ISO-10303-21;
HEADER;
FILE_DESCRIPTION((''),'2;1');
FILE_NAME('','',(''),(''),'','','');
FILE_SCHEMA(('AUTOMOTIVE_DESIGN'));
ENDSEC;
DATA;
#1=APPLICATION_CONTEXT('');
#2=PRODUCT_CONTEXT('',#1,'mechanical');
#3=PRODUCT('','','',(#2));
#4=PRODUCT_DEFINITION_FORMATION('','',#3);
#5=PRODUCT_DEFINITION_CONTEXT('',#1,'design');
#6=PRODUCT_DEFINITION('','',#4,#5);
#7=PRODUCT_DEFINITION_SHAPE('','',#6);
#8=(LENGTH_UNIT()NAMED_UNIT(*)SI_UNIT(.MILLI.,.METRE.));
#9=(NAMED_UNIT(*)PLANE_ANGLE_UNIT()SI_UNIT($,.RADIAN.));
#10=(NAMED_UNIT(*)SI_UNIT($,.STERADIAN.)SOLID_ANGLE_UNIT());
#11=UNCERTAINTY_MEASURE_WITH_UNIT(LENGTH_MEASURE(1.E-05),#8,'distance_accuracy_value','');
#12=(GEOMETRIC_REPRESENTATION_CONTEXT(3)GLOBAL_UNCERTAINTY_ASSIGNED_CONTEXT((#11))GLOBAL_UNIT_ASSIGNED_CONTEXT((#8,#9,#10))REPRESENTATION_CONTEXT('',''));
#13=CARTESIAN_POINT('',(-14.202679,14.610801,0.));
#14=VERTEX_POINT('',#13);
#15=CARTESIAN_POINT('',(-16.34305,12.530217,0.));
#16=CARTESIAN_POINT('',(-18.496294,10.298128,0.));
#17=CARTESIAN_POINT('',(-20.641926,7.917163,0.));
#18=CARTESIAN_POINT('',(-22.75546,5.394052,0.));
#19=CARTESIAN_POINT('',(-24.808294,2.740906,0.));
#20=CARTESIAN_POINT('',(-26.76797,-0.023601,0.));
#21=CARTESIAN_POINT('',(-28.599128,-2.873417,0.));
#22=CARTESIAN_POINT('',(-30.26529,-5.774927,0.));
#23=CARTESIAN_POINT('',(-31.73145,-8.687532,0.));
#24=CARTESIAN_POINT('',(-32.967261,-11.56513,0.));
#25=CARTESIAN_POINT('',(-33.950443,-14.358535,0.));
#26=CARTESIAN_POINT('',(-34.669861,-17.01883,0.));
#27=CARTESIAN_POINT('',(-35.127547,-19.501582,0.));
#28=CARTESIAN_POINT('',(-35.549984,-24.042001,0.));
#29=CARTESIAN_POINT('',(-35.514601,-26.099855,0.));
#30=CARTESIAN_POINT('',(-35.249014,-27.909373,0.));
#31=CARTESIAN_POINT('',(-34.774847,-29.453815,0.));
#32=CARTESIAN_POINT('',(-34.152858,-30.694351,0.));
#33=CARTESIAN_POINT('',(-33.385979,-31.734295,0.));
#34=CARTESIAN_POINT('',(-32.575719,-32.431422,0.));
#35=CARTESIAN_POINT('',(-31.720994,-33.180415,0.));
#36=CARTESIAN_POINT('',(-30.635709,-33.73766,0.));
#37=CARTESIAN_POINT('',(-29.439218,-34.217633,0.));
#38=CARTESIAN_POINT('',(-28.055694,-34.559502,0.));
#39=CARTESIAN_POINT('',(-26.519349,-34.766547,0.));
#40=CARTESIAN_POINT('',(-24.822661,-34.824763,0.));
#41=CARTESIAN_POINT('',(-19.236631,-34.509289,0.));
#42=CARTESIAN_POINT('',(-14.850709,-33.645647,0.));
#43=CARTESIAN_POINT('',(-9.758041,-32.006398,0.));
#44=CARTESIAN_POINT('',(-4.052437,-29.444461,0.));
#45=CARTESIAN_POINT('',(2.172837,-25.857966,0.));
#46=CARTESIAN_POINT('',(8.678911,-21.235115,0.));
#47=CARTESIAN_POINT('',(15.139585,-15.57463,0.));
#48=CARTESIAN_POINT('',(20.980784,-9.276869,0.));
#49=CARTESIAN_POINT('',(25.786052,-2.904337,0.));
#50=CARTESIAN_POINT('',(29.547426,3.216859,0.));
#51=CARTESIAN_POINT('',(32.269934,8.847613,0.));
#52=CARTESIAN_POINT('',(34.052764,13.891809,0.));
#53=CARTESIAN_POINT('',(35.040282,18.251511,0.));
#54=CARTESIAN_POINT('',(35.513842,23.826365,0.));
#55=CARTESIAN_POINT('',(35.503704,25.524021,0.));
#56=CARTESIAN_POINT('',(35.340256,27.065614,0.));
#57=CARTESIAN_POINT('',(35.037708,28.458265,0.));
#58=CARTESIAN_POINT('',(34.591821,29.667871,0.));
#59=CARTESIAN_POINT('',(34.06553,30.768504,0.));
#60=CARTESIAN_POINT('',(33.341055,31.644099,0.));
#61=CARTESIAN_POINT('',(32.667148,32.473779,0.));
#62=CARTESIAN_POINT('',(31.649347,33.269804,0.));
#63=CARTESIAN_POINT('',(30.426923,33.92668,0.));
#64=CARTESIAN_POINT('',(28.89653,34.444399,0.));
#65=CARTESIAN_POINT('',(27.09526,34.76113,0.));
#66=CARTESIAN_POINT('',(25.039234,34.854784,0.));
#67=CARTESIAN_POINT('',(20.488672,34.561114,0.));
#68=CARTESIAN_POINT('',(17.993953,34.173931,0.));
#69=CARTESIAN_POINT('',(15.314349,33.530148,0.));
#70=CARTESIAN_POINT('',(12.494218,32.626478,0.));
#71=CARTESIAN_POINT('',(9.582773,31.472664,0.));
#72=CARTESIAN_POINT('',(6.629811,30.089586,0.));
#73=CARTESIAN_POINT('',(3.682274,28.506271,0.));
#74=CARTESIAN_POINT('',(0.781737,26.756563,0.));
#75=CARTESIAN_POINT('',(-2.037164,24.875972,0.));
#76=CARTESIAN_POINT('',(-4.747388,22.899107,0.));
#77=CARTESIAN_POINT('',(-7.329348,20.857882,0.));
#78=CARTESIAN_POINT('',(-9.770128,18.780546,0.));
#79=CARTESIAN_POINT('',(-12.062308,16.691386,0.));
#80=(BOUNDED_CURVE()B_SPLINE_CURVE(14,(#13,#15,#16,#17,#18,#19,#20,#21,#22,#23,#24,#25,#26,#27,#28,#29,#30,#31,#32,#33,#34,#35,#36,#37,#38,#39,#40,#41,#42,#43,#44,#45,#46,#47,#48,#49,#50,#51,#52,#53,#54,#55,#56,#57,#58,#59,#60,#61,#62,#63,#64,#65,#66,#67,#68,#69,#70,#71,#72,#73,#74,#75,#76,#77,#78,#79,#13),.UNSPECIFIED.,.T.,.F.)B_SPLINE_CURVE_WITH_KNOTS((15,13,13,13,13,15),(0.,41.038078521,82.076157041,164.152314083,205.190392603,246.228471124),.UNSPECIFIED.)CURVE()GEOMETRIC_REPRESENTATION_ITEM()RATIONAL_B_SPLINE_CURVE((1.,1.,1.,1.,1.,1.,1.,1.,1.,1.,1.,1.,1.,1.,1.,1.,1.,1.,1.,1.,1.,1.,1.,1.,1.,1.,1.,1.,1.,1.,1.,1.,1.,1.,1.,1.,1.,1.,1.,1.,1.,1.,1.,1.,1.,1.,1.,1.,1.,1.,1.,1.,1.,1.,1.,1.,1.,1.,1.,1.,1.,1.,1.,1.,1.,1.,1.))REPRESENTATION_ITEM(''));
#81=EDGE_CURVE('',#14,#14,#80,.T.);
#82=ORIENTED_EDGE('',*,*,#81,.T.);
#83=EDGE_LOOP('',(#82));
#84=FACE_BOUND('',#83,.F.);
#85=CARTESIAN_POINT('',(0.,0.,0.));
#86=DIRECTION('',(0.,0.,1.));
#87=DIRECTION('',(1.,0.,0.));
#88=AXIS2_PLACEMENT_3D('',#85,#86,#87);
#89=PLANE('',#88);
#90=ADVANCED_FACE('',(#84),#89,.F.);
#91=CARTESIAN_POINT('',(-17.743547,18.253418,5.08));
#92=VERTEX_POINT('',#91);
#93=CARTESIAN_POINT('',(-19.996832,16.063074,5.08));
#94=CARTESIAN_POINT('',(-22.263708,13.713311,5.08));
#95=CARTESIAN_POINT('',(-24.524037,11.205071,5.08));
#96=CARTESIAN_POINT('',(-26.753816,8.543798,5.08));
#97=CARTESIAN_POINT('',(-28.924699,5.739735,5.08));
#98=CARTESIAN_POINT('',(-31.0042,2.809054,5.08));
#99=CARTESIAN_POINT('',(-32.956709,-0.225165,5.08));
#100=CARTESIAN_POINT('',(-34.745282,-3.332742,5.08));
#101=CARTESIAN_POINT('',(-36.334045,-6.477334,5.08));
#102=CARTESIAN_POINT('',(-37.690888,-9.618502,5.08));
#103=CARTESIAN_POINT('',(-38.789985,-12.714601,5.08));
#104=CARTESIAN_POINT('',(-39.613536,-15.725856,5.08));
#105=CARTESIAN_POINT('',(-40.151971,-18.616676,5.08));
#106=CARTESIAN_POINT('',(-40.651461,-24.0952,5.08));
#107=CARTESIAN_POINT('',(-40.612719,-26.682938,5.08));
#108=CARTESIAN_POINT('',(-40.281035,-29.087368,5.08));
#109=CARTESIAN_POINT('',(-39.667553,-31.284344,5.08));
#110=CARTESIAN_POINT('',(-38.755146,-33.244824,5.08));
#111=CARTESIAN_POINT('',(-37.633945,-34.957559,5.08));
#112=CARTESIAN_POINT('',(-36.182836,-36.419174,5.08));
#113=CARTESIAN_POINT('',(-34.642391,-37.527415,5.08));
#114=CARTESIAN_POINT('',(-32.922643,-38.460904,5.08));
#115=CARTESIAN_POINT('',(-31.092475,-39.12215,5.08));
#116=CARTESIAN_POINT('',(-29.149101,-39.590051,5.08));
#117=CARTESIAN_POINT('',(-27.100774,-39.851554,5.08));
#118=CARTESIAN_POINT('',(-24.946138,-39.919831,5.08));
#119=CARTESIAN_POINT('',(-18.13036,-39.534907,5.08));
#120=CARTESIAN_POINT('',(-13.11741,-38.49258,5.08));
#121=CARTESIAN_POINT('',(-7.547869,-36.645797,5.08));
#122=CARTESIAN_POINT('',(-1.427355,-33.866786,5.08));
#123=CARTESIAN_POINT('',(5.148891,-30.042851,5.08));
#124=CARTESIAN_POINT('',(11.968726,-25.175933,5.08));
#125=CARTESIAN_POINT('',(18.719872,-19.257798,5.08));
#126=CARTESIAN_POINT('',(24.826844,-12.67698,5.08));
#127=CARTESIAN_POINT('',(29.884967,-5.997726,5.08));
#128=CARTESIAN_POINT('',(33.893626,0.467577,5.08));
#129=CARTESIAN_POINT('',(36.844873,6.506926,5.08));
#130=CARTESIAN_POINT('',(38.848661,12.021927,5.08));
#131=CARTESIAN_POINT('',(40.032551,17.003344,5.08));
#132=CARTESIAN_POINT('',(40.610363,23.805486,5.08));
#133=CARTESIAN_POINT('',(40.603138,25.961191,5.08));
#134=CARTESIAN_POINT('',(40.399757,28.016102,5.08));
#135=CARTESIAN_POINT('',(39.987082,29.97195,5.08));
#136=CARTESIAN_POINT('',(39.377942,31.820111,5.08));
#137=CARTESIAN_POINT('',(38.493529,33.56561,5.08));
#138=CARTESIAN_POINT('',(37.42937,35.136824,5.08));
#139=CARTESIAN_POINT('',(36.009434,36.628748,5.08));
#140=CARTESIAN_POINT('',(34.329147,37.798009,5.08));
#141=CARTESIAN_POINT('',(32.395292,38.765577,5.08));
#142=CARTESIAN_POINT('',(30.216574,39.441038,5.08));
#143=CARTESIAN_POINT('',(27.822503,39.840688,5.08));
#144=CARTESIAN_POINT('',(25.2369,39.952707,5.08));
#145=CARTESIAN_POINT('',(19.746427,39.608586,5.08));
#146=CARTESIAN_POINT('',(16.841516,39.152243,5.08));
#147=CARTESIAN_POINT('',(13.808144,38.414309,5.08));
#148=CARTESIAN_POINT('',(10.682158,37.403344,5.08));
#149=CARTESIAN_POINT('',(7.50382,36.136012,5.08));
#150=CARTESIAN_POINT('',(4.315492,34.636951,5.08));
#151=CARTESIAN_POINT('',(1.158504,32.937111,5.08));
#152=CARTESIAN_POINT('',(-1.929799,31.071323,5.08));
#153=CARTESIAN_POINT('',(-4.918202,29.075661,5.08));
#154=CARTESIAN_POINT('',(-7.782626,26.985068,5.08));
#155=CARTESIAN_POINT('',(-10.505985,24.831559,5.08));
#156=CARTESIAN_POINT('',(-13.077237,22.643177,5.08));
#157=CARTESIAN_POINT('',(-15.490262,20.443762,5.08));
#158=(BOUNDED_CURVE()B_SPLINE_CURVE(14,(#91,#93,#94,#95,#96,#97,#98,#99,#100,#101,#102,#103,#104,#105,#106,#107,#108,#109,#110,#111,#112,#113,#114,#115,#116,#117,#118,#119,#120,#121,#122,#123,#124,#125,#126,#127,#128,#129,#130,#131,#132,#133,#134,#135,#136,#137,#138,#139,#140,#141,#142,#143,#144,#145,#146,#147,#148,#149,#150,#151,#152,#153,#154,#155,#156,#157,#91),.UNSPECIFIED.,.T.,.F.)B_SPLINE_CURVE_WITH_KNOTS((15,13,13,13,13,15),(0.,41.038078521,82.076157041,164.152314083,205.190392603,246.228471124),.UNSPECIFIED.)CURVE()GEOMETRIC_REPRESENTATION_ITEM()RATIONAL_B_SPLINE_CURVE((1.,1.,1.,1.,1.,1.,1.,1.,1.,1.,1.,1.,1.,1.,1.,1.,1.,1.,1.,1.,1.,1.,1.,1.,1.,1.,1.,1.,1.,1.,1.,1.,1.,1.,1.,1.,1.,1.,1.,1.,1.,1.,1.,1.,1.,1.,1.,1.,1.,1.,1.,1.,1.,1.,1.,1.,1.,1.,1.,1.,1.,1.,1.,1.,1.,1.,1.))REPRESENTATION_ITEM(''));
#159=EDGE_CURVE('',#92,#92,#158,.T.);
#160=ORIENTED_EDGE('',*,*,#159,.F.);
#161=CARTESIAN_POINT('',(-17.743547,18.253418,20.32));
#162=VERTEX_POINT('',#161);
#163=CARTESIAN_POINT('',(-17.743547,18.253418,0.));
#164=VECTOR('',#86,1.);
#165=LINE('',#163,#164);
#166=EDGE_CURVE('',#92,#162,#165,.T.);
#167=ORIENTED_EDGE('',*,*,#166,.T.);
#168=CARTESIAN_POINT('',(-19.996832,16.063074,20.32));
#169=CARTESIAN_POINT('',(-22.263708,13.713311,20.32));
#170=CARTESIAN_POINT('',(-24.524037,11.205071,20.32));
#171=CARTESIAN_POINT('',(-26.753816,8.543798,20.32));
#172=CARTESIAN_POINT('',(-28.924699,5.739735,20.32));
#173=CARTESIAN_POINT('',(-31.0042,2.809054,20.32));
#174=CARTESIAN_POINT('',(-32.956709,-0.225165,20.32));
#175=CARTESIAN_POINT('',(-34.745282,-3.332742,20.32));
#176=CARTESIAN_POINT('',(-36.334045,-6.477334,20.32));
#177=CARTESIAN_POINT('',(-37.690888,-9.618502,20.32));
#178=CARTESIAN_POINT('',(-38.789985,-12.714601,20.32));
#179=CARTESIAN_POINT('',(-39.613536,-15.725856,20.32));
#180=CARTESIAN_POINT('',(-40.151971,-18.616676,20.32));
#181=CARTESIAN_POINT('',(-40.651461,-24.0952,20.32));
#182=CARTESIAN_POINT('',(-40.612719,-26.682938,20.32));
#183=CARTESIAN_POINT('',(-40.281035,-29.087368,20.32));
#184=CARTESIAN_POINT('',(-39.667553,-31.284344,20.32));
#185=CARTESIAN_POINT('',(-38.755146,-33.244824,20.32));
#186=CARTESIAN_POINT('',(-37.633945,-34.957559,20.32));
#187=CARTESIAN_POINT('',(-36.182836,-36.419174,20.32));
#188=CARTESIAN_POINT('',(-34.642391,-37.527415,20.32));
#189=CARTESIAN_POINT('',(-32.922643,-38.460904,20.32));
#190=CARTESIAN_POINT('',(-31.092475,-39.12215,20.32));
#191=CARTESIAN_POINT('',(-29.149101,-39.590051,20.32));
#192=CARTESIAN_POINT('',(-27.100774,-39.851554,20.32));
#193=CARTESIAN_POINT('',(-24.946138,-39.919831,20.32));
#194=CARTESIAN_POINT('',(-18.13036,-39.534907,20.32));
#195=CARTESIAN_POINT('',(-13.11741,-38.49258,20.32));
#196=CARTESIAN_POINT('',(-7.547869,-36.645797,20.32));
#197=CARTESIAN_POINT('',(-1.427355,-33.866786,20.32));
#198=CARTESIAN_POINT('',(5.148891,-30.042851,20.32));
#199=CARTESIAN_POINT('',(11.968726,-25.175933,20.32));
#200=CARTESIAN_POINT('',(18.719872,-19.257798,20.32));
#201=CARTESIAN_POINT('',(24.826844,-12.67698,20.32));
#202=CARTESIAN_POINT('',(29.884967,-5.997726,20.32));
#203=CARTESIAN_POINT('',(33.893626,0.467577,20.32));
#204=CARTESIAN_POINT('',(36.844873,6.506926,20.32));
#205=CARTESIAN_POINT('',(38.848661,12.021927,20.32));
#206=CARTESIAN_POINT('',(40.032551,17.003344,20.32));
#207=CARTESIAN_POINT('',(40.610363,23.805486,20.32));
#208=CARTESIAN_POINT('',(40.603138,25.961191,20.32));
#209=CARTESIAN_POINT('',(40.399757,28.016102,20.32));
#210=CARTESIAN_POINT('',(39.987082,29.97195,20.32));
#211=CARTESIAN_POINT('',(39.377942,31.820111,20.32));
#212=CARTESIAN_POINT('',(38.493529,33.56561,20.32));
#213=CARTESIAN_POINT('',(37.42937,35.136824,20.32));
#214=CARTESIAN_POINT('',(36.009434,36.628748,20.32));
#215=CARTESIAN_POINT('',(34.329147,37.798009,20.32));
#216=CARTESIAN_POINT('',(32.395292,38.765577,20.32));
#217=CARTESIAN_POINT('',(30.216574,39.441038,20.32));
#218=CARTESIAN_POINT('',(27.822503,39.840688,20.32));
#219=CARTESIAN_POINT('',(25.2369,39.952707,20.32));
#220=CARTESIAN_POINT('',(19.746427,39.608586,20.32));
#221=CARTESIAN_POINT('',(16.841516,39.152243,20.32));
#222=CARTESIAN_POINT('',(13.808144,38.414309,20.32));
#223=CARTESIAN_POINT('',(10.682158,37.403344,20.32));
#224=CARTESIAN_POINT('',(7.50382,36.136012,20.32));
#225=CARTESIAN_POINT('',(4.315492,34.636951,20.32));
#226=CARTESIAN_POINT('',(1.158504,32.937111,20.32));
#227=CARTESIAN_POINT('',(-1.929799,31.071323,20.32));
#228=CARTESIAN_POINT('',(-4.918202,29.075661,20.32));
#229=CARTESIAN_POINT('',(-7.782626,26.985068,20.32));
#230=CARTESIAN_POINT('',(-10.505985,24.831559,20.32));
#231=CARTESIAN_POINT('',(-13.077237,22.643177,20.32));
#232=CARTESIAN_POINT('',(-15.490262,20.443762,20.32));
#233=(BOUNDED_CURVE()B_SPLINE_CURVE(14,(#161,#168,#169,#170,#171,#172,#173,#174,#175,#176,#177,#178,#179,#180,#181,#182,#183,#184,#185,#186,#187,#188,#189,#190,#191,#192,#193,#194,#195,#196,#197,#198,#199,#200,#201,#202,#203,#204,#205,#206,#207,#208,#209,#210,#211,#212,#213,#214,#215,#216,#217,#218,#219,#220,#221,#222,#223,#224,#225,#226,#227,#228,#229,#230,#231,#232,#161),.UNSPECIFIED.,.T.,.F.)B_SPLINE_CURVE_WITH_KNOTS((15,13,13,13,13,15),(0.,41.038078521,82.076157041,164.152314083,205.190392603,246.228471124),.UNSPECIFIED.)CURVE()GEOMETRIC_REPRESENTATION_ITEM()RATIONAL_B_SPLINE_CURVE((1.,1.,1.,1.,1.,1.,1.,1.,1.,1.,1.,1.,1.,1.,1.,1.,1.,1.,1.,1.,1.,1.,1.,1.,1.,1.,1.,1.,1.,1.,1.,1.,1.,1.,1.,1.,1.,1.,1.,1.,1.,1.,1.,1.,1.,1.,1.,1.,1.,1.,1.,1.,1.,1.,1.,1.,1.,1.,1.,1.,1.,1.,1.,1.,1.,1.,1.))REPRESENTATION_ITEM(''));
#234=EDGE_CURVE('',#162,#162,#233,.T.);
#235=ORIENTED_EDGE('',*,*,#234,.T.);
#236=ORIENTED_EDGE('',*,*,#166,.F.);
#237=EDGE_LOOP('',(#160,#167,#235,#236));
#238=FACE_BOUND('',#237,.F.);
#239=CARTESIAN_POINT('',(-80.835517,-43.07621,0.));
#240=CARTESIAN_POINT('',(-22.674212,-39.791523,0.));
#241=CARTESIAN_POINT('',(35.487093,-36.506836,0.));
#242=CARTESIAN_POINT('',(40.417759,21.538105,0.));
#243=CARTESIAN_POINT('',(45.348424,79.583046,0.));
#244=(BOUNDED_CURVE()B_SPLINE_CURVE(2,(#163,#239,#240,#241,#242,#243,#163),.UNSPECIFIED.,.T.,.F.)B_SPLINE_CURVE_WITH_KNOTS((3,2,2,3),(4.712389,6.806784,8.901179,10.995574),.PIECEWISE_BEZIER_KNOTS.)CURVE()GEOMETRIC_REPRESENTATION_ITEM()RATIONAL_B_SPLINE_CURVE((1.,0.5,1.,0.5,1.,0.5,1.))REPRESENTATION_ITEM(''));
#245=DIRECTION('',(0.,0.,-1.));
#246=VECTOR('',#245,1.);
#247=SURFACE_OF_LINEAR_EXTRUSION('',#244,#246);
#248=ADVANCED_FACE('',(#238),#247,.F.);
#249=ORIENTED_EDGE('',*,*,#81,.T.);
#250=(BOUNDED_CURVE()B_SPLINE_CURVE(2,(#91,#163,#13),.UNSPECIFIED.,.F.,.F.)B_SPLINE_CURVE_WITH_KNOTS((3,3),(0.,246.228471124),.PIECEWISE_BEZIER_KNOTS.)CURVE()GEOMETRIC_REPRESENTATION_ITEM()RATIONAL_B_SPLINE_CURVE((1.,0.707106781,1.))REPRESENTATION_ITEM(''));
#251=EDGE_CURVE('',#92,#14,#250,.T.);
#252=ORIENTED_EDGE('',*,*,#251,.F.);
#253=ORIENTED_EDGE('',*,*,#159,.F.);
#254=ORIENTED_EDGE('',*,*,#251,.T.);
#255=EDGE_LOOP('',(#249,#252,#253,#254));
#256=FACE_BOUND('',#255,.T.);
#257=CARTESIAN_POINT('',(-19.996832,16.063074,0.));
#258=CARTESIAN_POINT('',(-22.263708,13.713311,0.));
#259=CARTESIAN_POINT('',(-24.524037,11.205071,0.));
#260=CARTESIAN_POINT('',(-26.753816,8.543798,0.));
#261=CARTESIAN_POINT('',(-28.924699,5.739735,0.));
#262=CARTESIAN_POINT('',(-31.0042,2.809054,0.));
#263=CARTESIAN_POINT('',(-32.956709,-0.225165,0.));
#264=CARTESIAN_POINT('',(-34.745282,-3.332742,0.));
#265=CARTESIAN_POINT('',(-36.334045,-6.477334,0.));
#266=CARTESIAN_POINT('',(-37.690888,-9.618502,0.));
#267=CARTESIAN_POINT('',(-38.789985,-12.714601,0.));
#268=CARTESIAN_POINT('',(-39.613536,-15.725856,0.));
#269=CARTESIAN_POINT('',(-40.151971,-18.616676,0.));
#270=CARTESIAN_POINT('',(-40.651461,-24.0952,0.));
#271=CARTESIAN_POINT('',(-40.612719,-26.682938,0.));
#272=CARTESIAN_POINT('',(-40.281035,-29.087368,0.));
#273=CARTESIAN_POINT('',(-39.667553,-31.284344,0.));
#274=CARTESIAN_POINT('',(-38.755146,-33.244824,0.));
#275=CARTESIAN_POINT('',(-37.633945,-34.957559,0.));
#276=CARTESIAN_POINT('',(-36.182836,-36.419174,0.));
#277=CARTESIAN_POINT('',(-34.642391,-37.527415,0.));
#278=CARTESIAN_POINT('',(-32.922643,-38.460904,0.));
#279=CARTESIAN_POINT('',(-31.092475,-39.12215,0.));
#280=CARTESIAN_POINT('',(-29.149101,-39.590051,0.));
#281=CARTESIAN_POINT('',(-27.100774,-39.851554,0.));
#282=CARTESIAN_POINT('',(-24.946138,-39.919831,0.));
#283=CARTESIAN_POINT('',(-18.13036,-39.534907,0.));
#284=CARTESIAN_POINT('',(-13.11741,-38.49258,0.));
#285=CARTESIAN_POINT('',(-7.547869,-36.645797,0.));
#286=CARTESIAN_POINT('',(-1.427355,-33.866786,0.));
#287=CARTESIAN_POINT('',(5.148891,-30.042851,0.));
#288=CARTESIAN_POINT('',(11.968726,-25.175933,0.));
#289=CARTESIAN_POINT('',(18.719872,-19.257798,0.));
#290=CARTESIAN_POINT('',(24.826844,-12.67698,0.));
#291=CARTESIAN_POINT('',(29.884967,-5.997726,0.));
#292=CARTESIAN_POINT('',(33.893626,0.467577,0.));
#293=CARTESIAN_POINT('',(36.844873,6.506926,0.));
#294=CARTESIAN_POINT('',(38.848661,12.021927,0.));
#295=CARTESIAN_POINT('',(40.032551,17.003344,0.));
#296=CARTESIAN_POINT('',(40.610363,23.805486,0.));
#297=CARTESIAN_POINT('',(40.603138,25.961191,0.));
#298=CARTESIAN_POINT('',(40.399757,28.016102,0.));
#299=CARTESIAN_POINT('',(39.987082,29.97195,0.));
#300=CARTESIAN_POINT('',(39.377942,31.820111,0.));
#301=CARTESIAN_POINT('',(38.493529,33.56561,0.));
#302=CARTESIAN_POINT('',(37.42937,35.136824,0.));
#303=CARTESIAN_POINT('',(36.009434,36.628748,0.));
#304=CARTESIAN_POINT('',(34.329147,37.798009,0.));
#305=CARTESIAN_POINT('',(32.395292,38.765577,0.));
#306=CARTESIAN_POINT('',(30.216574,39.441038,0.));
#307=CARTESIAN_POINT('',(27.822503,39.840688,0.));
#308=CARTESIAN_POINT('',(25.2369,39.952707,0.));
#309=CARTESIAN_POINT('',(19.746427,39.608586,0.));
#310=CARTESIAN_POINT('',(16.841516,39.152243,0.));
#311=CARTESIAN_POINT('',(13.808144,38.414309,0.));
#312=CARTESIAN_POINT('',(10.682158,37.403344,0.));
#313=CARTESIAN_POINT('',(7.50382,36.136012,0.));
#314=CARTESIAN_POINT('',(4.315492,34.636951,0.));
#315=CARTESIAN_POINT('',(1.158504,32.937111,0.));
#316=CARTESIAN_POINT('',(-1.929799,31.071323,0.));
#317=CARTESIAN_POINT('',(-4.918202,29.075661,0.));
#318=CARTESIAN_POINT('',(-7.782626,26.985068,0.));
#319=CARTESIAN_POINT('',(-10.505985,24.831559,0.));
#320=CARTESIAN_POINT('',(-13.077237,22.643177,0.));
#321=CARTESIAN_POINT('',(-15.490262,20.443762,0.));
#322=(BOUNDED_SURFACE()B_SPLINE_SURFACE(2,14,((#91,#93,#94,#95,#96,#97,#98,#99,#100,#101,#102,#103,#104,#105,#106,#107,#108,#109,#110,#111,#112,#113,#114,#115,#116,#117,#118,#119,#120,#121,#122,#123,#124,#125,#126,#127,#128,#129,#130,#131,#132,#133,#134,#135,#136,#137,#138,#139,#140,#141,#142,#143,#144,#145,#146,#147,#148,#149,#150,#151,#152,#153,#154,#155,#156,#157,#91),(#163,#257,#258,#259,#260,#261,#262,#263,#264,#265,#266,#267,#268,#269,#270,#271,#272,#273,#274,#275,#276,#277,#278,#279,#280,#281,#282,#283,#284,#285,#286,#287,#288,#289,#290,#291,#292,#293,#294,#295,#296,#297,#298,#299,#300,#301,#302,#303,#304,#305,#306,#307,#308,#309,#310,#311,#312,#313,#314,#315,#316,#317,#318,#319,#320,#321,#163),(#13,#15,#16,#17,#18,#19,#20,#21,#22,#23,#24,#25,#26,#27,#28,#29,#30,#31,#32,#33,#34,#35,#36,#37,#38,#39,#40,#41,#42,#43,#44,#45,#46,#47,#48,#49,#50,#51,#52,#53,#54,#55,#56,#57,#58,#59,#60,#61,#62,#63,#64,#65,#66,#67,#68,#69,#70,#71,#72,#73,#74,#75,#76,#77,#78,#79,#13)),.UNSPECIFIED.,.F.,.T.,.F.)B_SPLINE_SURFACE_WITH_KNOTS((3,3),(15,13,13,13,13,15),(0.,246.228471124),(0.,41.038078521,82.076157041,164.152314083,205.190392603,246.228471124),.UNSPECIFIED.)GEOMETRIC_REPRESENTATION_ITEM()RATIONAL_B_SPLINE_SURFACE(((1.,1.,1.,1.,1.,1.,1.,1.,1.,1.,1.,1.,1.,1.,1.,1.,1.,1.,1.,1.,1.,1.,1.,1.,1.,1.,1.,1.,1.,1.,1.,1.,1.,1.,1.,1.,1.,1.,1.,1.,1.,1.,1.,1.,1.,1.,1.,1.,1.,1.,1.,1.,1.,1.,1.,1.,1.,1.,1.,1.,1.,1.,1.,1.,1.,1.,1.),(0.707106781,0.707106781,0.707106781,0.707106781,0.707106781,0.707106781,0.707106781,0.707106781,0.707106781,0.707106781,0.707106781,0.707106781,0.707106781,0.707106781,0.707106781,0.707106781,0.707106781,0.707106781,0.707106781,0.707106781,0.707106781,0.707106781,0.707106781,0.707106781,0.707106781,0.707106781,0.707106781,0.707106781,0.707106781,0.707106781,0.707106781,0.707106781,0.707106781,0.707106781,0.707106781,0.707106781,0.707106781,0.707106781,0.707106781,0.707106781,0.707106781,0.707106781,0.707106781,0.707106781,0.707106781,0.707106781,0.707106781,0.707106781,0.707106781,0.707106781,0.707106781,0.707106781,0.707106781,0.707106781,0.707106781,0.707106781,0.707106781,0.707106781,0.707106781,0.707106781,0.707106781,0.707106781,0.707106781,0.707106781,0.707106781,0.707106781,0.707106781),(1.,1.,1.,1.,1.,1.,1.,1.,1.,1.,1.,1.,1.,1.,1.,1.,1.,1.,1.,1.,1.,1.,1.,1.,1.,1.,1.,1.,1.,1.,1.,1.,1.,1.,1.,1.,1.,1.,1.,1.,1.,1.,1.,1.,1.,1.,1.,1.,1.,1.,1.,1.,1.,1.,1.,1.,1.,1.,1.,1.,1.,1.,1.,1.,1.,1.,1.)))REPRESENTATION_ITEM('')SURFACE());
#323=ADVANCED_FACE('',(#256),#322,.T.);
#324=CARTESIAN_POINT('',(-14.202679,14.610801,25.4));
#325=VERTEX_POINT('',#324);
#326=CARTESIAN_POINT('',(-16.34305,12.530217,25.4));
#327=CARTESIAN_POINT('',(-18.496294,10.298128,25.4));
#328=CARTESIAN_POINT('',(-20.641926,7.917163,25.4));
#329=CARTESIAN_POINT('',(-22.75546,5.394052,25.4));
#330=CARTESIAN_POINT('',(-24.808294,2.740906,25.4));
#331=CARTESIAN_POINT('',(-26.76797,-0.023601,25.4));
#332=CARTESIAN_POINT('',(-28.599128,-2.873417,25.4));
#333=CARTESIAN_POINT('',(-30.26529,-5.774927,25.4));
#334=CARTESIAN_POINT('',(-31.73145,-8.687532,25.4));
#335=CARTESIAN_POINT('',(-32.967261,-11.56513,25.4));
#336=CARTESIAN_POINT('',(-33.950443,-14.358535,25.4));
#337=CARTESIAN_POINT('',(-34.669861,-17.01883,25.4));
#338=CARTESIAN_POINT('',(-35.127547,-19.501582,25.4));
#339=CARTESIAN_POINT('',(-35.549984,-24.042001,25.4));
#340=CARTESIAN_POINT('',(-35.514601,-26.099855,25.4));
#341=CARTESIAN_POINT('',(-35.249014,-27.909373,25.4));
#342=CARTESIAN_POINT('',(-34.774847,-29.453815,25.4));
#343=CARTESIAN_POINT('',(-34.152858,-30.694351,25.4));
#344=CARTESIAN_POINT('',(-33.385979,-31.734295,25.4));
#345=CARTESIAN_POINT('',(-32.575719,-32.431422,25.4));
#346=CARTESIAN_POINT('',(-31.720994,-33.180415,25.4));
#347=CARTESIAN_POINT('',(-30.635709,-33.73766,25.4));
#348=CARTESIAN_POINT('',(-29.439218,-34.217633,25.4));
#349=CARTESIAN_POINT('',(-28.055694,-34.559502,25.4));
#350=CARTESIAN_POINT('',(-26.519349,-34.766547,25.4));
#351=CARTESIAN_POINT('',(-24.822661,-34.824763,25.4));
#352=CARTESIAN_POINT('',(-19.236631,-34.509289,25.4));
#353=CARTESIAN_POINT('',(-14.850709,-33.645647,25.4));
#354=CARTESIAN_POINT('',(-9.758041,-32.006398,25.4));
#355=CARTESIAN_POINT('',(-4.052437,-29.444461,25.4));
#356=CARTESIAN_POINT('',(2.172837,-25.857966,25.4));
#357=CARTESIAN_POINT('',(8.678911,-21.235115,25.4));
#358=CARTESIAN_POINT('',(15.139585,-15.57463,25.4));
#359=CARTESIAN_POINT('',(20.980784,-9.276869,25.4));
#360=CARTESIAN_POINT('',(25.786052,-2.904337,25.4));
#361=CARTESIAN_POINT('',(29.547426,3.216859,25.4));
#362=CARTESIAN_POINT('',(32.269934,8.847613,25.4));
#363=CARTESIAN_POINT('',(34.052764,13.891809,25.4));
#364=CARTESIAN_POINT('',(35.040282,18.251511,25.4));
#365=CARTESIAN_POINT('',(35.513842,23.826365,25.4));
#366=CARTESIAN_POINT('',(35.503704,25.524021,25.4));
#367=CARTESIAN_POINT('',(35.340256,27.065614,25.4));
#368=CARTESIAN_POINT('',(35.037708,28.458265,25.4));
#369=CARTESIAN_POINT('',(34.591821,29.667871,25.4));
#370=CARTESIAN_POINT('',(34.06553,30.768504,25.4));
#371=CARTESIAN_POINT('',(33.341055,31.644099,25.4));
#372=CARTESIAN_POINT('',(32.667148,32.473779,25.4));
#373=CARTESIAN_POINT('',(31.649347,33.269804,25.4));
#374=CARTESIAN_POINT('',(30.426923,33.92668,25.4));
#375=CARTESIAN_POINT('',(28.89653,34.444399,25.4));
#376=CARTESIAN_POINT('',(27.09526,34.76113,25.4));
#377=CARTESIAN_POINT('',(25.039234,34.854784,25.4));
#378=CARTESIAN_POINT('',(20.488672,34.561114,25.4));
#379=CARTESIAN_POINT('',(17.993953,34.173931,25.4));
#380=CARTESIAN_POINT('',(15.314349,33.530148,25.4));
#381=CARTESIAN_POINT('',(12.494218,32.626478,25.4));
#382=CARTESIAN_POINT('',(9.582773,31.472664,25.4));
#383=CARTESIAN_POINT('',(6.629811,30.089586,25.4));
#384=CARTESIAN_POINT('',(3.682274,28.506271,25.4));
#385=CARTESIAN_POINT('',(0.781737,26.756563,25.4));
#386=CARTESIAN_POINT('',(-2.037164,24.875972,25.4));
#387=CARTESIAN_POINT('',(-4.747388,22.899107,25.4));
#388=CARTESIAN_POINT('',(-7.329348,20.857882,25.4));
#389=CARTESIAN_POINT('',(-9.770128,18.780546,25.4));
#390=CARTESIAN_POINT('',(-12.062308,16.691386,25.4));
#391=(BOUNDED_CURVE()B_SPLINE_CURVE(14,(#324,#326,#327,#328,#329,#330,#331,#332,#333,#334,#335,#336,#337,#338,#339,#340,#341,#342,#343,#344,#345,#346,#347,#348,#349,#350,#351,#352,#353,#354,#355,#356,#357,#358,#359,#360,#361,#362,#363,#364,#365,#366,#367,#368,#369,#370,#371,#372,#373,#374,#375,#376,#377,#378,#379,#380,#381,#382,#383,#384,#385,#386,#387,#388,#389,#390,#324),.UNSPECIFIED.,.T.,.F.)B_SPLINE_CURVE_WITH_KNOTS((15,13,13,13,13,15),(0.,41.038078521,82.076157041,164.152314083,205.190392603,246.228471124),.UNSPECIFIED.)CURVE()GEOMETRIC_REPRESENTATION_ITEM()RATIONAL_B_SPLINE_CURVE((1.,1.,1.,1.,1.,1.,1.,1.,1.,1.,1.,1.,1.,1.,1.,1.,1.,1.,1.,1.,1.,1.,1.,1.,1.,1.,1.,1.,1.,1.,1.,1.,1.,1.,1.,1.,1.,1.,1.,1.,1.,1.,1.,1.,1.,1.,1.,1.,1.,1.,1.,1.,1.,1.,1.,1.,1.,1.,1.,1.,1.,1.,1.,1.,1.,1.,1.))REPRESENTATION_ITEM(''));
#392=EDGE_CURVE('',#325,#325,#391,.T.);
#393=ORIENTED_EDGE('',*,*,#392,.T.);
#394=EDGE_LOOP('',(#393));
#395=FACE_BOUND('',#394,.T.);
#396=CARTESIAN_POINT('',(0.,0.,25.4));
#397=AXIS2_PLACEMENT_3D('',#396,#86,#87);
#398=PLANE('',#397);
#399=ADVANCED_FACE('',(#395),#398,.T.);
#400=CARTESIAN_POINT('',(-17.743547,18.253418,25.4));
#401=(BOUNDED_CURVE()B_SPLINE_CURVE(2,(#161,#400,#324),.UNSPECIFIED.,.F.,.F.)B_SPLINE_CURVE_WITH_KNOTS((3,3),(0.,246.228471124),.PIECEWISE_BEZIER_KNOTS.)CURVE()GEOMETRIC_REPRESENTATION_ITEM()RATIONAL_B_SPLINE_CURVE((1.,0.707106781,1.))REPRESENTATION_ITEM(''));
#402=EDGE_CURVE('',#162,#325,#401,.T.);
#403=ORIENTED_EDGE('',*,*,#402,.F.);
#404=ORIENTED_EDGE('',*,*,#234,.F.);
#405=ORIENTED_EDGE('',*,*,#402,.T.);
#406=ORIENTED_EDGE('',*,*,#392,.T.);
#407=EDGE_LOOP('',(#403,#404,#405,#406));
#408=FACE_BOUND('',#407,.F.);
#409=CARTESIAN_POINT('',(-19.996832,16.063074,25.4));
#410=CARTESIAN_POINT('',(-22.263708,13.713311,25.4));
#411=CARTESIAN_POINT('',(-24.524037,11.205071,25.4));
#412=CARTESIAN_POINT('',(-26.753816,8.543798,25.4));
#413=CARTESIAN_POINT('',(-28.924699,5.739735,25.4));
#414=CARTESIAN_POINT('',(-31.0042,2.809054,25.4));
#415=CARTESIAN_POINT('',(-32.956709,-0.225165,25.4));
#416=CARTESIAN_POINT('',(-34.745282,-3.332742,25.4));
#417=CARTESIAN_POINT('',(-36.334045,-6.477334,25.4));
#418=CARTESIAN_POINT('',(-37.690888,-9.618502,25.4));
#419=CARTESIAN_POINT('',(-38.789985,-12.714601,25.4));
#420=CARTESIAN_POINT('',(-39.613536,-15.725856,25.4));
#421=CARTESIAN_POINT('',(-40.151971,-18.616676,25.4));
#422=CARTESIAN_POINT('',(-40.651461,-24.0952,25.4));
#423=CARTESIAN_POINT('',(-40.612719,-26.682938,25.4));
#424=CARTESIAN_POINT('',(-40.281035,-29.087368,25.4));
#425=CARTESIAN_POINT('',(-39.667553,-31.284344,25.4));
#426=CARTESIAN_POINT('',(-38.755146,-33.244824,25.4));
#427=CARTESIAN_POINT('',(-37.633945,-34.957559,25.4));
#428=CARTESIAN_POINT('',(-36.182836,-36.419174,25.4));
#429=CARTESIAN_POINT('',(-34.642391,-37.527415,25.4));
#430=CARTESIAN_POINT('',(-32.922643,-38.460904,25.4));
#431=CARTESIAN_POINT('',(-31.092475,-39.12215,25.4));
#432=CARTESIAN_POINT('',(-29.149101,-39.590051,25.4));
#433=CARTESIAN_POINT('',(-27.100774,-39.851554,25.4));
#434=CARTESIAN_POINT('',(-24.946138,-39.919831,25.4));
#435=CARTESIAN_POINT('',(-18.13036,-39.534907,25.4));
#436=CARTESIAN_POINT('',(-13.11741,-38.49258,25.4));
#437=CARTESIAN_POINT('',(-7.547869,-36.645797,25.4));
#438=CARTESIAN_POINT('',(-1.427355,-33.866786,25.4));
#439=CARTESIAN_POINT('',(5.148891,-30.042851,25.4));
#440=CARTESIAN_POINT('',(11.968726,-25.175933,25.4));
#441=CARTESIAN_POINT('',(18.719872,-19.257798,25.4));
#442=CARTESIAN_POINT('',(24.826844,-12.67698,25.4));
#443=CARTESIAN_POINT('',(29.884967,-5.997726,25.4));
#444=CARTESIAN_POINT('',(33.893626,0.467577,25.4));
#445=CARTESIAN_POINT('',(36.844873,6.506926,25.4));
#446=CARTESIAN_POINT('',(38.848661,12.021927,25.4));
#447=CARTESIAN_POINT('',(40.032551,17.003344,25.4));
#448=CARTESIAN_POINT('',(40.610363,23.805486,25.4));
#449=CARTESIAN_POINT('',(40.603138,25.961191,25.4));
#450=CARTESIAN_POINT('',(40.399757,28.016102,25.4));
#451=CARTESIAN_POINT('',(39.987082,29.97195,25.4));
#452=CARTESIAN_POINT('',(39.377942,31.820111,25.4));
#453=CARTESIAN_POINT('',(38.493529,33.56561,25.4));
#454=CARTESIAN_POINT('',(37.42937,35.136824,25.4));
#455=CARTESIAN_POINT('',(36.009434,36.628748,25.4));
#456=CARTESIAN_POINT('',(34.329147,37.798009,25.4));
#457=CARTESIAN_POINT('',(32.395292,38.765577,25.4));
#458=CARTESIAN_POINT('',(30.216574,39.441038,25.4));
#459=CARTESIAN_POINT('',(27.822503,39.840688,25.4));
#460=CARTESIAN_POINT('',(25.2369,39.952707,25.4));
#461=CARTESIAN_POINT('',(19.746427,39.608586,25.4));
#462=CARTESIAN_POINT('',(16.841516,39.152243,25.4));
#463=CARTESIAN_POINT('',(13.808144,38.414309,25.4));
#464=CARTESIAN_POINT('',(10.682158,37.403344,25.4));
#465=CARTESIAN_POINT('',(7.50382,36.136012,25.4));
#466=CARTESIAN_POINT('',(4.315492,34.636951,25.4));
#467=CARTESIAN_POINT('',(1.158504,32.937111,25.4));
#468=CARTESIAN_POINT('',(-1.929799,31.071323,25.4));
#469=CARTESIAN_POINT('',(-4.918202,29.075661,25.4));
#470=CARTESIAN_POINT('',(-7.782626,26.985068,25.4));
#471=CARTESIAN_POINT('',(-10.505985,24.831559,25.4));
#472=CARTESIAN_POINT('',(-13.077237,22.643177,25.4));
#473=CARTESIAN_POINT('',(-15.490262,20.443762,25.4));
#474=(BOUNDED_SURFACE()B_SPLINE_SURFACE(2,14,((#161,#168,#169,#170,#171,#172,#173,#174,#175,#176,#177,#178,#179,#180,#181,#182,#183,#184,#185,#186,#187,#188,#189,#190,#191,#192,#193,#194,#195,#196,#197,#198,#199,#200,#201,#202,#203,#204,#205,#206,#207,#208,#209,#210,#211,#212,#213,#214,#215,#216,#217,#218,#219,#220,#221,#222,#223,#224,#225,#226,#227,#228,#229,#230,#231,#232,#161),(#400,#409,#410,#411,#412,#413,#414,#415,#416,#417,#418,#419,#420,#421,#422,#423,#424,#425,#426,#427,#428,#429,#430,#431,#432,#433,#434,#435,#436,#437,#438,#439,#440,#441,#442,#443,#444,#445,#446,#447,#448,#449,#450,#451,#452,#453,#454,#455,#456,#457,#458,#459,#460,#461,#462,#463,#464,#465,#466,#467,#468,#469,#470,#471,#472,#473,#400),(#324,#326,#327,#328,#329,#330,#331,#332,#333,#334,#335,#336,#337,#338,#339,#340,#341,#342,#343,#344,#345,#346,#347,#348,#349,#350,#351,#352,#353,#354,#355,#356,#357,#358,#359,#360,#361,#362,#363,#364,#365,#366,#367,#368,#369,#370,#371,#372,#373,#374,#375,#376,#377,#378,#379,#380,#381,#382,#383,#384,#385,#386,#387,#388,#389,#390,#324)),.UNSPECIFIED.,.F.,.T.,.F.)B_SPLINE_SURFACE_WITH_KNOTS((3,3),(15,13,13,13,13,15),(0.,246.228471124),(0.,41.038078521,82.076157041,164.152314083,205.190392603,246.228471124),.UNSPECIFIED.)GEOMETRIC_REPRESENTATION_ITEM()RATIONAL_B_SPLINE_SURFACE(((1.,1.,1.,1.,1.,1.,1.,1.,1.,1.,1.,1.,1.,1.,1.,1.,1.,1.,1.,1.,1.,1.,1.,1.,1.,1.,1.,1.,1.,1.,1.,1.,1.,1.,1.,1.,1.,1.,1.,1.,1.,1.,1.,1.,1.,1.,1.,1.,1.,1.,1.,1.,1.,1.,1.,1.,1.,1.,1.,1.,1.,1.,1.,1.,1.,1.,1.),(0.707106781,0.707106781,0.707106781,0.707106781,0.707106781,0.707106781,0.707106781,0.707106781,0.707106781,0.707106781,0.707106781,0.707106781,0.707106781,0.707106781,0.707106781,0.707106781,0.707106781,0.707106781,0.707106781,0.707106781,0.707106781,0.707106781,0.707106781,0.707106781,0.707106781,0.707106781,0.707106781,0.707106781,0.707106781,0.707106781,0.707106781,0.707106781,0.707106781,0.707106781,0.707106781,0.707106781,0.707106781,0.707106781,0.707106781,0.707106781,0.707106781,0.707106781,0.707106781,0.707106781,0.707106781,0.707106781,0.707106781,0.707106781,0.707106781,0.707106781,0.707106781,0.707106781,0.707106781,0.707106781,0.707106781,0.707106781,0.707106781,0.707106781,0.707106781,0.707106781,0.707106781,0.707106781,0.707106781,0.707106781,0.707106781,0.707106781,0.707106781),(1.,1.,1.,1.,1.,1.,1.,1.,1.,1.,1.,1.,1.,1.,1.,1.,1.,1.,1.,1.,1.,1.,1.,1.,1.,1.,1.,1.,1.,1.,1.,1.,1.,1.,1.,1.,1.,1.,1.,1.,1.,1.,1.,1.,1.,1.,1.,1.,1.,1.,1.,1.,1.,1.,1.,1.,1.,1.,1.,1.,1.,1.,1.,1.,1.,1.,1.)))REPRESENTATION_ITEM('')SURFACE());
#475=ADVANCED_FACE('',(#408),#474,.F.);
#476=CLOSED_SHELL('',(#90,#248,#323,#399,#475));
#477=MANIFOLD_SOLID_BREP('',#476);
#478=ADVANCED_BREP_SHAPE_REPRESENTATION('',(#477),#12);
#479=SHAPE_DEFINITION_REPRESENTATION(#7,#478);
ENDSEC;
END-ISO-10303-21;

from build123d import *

# Parameters (mm, degrees)
F1_DEPTH = 25.4
F2_R     = 5.08


with BuildPart() as f1:
    # F0 (on Top) → F1 (new body)
    with BuildSketch(Plane.XY):
        with BuildLine():
            add(Edge.make_bspline(
                [(-17.743547, 18.253418), (-80.835517, -43.07621), (-22.674212, -39.791523), (35.487093, -36.506836), (40.417759, 21.538105), (45.348424, 79.583046), (-17.743547, 18.253418)],
                knots=[4.712389, 4.712389, 4.712389, 6.806784, 6.806784, 8.901179, 8.901179, 10.995574, 10.995574, 10.995574], degree=2, weights=[1, 0.5, 1, 0.5, 1, 0.5, 1]))
        make_face()
    extrude(amount=F1_DEPTH)

    # F2
    f2_edges = [f1.edges().sort_by_distance(p)[0] for p in [
        (17.743547, -18.253418, 25.4),
        (17.743547, -18.253418, 0),
    ]]
    fillet(f2_edges, radius=F2_R)


solid = f1.part
